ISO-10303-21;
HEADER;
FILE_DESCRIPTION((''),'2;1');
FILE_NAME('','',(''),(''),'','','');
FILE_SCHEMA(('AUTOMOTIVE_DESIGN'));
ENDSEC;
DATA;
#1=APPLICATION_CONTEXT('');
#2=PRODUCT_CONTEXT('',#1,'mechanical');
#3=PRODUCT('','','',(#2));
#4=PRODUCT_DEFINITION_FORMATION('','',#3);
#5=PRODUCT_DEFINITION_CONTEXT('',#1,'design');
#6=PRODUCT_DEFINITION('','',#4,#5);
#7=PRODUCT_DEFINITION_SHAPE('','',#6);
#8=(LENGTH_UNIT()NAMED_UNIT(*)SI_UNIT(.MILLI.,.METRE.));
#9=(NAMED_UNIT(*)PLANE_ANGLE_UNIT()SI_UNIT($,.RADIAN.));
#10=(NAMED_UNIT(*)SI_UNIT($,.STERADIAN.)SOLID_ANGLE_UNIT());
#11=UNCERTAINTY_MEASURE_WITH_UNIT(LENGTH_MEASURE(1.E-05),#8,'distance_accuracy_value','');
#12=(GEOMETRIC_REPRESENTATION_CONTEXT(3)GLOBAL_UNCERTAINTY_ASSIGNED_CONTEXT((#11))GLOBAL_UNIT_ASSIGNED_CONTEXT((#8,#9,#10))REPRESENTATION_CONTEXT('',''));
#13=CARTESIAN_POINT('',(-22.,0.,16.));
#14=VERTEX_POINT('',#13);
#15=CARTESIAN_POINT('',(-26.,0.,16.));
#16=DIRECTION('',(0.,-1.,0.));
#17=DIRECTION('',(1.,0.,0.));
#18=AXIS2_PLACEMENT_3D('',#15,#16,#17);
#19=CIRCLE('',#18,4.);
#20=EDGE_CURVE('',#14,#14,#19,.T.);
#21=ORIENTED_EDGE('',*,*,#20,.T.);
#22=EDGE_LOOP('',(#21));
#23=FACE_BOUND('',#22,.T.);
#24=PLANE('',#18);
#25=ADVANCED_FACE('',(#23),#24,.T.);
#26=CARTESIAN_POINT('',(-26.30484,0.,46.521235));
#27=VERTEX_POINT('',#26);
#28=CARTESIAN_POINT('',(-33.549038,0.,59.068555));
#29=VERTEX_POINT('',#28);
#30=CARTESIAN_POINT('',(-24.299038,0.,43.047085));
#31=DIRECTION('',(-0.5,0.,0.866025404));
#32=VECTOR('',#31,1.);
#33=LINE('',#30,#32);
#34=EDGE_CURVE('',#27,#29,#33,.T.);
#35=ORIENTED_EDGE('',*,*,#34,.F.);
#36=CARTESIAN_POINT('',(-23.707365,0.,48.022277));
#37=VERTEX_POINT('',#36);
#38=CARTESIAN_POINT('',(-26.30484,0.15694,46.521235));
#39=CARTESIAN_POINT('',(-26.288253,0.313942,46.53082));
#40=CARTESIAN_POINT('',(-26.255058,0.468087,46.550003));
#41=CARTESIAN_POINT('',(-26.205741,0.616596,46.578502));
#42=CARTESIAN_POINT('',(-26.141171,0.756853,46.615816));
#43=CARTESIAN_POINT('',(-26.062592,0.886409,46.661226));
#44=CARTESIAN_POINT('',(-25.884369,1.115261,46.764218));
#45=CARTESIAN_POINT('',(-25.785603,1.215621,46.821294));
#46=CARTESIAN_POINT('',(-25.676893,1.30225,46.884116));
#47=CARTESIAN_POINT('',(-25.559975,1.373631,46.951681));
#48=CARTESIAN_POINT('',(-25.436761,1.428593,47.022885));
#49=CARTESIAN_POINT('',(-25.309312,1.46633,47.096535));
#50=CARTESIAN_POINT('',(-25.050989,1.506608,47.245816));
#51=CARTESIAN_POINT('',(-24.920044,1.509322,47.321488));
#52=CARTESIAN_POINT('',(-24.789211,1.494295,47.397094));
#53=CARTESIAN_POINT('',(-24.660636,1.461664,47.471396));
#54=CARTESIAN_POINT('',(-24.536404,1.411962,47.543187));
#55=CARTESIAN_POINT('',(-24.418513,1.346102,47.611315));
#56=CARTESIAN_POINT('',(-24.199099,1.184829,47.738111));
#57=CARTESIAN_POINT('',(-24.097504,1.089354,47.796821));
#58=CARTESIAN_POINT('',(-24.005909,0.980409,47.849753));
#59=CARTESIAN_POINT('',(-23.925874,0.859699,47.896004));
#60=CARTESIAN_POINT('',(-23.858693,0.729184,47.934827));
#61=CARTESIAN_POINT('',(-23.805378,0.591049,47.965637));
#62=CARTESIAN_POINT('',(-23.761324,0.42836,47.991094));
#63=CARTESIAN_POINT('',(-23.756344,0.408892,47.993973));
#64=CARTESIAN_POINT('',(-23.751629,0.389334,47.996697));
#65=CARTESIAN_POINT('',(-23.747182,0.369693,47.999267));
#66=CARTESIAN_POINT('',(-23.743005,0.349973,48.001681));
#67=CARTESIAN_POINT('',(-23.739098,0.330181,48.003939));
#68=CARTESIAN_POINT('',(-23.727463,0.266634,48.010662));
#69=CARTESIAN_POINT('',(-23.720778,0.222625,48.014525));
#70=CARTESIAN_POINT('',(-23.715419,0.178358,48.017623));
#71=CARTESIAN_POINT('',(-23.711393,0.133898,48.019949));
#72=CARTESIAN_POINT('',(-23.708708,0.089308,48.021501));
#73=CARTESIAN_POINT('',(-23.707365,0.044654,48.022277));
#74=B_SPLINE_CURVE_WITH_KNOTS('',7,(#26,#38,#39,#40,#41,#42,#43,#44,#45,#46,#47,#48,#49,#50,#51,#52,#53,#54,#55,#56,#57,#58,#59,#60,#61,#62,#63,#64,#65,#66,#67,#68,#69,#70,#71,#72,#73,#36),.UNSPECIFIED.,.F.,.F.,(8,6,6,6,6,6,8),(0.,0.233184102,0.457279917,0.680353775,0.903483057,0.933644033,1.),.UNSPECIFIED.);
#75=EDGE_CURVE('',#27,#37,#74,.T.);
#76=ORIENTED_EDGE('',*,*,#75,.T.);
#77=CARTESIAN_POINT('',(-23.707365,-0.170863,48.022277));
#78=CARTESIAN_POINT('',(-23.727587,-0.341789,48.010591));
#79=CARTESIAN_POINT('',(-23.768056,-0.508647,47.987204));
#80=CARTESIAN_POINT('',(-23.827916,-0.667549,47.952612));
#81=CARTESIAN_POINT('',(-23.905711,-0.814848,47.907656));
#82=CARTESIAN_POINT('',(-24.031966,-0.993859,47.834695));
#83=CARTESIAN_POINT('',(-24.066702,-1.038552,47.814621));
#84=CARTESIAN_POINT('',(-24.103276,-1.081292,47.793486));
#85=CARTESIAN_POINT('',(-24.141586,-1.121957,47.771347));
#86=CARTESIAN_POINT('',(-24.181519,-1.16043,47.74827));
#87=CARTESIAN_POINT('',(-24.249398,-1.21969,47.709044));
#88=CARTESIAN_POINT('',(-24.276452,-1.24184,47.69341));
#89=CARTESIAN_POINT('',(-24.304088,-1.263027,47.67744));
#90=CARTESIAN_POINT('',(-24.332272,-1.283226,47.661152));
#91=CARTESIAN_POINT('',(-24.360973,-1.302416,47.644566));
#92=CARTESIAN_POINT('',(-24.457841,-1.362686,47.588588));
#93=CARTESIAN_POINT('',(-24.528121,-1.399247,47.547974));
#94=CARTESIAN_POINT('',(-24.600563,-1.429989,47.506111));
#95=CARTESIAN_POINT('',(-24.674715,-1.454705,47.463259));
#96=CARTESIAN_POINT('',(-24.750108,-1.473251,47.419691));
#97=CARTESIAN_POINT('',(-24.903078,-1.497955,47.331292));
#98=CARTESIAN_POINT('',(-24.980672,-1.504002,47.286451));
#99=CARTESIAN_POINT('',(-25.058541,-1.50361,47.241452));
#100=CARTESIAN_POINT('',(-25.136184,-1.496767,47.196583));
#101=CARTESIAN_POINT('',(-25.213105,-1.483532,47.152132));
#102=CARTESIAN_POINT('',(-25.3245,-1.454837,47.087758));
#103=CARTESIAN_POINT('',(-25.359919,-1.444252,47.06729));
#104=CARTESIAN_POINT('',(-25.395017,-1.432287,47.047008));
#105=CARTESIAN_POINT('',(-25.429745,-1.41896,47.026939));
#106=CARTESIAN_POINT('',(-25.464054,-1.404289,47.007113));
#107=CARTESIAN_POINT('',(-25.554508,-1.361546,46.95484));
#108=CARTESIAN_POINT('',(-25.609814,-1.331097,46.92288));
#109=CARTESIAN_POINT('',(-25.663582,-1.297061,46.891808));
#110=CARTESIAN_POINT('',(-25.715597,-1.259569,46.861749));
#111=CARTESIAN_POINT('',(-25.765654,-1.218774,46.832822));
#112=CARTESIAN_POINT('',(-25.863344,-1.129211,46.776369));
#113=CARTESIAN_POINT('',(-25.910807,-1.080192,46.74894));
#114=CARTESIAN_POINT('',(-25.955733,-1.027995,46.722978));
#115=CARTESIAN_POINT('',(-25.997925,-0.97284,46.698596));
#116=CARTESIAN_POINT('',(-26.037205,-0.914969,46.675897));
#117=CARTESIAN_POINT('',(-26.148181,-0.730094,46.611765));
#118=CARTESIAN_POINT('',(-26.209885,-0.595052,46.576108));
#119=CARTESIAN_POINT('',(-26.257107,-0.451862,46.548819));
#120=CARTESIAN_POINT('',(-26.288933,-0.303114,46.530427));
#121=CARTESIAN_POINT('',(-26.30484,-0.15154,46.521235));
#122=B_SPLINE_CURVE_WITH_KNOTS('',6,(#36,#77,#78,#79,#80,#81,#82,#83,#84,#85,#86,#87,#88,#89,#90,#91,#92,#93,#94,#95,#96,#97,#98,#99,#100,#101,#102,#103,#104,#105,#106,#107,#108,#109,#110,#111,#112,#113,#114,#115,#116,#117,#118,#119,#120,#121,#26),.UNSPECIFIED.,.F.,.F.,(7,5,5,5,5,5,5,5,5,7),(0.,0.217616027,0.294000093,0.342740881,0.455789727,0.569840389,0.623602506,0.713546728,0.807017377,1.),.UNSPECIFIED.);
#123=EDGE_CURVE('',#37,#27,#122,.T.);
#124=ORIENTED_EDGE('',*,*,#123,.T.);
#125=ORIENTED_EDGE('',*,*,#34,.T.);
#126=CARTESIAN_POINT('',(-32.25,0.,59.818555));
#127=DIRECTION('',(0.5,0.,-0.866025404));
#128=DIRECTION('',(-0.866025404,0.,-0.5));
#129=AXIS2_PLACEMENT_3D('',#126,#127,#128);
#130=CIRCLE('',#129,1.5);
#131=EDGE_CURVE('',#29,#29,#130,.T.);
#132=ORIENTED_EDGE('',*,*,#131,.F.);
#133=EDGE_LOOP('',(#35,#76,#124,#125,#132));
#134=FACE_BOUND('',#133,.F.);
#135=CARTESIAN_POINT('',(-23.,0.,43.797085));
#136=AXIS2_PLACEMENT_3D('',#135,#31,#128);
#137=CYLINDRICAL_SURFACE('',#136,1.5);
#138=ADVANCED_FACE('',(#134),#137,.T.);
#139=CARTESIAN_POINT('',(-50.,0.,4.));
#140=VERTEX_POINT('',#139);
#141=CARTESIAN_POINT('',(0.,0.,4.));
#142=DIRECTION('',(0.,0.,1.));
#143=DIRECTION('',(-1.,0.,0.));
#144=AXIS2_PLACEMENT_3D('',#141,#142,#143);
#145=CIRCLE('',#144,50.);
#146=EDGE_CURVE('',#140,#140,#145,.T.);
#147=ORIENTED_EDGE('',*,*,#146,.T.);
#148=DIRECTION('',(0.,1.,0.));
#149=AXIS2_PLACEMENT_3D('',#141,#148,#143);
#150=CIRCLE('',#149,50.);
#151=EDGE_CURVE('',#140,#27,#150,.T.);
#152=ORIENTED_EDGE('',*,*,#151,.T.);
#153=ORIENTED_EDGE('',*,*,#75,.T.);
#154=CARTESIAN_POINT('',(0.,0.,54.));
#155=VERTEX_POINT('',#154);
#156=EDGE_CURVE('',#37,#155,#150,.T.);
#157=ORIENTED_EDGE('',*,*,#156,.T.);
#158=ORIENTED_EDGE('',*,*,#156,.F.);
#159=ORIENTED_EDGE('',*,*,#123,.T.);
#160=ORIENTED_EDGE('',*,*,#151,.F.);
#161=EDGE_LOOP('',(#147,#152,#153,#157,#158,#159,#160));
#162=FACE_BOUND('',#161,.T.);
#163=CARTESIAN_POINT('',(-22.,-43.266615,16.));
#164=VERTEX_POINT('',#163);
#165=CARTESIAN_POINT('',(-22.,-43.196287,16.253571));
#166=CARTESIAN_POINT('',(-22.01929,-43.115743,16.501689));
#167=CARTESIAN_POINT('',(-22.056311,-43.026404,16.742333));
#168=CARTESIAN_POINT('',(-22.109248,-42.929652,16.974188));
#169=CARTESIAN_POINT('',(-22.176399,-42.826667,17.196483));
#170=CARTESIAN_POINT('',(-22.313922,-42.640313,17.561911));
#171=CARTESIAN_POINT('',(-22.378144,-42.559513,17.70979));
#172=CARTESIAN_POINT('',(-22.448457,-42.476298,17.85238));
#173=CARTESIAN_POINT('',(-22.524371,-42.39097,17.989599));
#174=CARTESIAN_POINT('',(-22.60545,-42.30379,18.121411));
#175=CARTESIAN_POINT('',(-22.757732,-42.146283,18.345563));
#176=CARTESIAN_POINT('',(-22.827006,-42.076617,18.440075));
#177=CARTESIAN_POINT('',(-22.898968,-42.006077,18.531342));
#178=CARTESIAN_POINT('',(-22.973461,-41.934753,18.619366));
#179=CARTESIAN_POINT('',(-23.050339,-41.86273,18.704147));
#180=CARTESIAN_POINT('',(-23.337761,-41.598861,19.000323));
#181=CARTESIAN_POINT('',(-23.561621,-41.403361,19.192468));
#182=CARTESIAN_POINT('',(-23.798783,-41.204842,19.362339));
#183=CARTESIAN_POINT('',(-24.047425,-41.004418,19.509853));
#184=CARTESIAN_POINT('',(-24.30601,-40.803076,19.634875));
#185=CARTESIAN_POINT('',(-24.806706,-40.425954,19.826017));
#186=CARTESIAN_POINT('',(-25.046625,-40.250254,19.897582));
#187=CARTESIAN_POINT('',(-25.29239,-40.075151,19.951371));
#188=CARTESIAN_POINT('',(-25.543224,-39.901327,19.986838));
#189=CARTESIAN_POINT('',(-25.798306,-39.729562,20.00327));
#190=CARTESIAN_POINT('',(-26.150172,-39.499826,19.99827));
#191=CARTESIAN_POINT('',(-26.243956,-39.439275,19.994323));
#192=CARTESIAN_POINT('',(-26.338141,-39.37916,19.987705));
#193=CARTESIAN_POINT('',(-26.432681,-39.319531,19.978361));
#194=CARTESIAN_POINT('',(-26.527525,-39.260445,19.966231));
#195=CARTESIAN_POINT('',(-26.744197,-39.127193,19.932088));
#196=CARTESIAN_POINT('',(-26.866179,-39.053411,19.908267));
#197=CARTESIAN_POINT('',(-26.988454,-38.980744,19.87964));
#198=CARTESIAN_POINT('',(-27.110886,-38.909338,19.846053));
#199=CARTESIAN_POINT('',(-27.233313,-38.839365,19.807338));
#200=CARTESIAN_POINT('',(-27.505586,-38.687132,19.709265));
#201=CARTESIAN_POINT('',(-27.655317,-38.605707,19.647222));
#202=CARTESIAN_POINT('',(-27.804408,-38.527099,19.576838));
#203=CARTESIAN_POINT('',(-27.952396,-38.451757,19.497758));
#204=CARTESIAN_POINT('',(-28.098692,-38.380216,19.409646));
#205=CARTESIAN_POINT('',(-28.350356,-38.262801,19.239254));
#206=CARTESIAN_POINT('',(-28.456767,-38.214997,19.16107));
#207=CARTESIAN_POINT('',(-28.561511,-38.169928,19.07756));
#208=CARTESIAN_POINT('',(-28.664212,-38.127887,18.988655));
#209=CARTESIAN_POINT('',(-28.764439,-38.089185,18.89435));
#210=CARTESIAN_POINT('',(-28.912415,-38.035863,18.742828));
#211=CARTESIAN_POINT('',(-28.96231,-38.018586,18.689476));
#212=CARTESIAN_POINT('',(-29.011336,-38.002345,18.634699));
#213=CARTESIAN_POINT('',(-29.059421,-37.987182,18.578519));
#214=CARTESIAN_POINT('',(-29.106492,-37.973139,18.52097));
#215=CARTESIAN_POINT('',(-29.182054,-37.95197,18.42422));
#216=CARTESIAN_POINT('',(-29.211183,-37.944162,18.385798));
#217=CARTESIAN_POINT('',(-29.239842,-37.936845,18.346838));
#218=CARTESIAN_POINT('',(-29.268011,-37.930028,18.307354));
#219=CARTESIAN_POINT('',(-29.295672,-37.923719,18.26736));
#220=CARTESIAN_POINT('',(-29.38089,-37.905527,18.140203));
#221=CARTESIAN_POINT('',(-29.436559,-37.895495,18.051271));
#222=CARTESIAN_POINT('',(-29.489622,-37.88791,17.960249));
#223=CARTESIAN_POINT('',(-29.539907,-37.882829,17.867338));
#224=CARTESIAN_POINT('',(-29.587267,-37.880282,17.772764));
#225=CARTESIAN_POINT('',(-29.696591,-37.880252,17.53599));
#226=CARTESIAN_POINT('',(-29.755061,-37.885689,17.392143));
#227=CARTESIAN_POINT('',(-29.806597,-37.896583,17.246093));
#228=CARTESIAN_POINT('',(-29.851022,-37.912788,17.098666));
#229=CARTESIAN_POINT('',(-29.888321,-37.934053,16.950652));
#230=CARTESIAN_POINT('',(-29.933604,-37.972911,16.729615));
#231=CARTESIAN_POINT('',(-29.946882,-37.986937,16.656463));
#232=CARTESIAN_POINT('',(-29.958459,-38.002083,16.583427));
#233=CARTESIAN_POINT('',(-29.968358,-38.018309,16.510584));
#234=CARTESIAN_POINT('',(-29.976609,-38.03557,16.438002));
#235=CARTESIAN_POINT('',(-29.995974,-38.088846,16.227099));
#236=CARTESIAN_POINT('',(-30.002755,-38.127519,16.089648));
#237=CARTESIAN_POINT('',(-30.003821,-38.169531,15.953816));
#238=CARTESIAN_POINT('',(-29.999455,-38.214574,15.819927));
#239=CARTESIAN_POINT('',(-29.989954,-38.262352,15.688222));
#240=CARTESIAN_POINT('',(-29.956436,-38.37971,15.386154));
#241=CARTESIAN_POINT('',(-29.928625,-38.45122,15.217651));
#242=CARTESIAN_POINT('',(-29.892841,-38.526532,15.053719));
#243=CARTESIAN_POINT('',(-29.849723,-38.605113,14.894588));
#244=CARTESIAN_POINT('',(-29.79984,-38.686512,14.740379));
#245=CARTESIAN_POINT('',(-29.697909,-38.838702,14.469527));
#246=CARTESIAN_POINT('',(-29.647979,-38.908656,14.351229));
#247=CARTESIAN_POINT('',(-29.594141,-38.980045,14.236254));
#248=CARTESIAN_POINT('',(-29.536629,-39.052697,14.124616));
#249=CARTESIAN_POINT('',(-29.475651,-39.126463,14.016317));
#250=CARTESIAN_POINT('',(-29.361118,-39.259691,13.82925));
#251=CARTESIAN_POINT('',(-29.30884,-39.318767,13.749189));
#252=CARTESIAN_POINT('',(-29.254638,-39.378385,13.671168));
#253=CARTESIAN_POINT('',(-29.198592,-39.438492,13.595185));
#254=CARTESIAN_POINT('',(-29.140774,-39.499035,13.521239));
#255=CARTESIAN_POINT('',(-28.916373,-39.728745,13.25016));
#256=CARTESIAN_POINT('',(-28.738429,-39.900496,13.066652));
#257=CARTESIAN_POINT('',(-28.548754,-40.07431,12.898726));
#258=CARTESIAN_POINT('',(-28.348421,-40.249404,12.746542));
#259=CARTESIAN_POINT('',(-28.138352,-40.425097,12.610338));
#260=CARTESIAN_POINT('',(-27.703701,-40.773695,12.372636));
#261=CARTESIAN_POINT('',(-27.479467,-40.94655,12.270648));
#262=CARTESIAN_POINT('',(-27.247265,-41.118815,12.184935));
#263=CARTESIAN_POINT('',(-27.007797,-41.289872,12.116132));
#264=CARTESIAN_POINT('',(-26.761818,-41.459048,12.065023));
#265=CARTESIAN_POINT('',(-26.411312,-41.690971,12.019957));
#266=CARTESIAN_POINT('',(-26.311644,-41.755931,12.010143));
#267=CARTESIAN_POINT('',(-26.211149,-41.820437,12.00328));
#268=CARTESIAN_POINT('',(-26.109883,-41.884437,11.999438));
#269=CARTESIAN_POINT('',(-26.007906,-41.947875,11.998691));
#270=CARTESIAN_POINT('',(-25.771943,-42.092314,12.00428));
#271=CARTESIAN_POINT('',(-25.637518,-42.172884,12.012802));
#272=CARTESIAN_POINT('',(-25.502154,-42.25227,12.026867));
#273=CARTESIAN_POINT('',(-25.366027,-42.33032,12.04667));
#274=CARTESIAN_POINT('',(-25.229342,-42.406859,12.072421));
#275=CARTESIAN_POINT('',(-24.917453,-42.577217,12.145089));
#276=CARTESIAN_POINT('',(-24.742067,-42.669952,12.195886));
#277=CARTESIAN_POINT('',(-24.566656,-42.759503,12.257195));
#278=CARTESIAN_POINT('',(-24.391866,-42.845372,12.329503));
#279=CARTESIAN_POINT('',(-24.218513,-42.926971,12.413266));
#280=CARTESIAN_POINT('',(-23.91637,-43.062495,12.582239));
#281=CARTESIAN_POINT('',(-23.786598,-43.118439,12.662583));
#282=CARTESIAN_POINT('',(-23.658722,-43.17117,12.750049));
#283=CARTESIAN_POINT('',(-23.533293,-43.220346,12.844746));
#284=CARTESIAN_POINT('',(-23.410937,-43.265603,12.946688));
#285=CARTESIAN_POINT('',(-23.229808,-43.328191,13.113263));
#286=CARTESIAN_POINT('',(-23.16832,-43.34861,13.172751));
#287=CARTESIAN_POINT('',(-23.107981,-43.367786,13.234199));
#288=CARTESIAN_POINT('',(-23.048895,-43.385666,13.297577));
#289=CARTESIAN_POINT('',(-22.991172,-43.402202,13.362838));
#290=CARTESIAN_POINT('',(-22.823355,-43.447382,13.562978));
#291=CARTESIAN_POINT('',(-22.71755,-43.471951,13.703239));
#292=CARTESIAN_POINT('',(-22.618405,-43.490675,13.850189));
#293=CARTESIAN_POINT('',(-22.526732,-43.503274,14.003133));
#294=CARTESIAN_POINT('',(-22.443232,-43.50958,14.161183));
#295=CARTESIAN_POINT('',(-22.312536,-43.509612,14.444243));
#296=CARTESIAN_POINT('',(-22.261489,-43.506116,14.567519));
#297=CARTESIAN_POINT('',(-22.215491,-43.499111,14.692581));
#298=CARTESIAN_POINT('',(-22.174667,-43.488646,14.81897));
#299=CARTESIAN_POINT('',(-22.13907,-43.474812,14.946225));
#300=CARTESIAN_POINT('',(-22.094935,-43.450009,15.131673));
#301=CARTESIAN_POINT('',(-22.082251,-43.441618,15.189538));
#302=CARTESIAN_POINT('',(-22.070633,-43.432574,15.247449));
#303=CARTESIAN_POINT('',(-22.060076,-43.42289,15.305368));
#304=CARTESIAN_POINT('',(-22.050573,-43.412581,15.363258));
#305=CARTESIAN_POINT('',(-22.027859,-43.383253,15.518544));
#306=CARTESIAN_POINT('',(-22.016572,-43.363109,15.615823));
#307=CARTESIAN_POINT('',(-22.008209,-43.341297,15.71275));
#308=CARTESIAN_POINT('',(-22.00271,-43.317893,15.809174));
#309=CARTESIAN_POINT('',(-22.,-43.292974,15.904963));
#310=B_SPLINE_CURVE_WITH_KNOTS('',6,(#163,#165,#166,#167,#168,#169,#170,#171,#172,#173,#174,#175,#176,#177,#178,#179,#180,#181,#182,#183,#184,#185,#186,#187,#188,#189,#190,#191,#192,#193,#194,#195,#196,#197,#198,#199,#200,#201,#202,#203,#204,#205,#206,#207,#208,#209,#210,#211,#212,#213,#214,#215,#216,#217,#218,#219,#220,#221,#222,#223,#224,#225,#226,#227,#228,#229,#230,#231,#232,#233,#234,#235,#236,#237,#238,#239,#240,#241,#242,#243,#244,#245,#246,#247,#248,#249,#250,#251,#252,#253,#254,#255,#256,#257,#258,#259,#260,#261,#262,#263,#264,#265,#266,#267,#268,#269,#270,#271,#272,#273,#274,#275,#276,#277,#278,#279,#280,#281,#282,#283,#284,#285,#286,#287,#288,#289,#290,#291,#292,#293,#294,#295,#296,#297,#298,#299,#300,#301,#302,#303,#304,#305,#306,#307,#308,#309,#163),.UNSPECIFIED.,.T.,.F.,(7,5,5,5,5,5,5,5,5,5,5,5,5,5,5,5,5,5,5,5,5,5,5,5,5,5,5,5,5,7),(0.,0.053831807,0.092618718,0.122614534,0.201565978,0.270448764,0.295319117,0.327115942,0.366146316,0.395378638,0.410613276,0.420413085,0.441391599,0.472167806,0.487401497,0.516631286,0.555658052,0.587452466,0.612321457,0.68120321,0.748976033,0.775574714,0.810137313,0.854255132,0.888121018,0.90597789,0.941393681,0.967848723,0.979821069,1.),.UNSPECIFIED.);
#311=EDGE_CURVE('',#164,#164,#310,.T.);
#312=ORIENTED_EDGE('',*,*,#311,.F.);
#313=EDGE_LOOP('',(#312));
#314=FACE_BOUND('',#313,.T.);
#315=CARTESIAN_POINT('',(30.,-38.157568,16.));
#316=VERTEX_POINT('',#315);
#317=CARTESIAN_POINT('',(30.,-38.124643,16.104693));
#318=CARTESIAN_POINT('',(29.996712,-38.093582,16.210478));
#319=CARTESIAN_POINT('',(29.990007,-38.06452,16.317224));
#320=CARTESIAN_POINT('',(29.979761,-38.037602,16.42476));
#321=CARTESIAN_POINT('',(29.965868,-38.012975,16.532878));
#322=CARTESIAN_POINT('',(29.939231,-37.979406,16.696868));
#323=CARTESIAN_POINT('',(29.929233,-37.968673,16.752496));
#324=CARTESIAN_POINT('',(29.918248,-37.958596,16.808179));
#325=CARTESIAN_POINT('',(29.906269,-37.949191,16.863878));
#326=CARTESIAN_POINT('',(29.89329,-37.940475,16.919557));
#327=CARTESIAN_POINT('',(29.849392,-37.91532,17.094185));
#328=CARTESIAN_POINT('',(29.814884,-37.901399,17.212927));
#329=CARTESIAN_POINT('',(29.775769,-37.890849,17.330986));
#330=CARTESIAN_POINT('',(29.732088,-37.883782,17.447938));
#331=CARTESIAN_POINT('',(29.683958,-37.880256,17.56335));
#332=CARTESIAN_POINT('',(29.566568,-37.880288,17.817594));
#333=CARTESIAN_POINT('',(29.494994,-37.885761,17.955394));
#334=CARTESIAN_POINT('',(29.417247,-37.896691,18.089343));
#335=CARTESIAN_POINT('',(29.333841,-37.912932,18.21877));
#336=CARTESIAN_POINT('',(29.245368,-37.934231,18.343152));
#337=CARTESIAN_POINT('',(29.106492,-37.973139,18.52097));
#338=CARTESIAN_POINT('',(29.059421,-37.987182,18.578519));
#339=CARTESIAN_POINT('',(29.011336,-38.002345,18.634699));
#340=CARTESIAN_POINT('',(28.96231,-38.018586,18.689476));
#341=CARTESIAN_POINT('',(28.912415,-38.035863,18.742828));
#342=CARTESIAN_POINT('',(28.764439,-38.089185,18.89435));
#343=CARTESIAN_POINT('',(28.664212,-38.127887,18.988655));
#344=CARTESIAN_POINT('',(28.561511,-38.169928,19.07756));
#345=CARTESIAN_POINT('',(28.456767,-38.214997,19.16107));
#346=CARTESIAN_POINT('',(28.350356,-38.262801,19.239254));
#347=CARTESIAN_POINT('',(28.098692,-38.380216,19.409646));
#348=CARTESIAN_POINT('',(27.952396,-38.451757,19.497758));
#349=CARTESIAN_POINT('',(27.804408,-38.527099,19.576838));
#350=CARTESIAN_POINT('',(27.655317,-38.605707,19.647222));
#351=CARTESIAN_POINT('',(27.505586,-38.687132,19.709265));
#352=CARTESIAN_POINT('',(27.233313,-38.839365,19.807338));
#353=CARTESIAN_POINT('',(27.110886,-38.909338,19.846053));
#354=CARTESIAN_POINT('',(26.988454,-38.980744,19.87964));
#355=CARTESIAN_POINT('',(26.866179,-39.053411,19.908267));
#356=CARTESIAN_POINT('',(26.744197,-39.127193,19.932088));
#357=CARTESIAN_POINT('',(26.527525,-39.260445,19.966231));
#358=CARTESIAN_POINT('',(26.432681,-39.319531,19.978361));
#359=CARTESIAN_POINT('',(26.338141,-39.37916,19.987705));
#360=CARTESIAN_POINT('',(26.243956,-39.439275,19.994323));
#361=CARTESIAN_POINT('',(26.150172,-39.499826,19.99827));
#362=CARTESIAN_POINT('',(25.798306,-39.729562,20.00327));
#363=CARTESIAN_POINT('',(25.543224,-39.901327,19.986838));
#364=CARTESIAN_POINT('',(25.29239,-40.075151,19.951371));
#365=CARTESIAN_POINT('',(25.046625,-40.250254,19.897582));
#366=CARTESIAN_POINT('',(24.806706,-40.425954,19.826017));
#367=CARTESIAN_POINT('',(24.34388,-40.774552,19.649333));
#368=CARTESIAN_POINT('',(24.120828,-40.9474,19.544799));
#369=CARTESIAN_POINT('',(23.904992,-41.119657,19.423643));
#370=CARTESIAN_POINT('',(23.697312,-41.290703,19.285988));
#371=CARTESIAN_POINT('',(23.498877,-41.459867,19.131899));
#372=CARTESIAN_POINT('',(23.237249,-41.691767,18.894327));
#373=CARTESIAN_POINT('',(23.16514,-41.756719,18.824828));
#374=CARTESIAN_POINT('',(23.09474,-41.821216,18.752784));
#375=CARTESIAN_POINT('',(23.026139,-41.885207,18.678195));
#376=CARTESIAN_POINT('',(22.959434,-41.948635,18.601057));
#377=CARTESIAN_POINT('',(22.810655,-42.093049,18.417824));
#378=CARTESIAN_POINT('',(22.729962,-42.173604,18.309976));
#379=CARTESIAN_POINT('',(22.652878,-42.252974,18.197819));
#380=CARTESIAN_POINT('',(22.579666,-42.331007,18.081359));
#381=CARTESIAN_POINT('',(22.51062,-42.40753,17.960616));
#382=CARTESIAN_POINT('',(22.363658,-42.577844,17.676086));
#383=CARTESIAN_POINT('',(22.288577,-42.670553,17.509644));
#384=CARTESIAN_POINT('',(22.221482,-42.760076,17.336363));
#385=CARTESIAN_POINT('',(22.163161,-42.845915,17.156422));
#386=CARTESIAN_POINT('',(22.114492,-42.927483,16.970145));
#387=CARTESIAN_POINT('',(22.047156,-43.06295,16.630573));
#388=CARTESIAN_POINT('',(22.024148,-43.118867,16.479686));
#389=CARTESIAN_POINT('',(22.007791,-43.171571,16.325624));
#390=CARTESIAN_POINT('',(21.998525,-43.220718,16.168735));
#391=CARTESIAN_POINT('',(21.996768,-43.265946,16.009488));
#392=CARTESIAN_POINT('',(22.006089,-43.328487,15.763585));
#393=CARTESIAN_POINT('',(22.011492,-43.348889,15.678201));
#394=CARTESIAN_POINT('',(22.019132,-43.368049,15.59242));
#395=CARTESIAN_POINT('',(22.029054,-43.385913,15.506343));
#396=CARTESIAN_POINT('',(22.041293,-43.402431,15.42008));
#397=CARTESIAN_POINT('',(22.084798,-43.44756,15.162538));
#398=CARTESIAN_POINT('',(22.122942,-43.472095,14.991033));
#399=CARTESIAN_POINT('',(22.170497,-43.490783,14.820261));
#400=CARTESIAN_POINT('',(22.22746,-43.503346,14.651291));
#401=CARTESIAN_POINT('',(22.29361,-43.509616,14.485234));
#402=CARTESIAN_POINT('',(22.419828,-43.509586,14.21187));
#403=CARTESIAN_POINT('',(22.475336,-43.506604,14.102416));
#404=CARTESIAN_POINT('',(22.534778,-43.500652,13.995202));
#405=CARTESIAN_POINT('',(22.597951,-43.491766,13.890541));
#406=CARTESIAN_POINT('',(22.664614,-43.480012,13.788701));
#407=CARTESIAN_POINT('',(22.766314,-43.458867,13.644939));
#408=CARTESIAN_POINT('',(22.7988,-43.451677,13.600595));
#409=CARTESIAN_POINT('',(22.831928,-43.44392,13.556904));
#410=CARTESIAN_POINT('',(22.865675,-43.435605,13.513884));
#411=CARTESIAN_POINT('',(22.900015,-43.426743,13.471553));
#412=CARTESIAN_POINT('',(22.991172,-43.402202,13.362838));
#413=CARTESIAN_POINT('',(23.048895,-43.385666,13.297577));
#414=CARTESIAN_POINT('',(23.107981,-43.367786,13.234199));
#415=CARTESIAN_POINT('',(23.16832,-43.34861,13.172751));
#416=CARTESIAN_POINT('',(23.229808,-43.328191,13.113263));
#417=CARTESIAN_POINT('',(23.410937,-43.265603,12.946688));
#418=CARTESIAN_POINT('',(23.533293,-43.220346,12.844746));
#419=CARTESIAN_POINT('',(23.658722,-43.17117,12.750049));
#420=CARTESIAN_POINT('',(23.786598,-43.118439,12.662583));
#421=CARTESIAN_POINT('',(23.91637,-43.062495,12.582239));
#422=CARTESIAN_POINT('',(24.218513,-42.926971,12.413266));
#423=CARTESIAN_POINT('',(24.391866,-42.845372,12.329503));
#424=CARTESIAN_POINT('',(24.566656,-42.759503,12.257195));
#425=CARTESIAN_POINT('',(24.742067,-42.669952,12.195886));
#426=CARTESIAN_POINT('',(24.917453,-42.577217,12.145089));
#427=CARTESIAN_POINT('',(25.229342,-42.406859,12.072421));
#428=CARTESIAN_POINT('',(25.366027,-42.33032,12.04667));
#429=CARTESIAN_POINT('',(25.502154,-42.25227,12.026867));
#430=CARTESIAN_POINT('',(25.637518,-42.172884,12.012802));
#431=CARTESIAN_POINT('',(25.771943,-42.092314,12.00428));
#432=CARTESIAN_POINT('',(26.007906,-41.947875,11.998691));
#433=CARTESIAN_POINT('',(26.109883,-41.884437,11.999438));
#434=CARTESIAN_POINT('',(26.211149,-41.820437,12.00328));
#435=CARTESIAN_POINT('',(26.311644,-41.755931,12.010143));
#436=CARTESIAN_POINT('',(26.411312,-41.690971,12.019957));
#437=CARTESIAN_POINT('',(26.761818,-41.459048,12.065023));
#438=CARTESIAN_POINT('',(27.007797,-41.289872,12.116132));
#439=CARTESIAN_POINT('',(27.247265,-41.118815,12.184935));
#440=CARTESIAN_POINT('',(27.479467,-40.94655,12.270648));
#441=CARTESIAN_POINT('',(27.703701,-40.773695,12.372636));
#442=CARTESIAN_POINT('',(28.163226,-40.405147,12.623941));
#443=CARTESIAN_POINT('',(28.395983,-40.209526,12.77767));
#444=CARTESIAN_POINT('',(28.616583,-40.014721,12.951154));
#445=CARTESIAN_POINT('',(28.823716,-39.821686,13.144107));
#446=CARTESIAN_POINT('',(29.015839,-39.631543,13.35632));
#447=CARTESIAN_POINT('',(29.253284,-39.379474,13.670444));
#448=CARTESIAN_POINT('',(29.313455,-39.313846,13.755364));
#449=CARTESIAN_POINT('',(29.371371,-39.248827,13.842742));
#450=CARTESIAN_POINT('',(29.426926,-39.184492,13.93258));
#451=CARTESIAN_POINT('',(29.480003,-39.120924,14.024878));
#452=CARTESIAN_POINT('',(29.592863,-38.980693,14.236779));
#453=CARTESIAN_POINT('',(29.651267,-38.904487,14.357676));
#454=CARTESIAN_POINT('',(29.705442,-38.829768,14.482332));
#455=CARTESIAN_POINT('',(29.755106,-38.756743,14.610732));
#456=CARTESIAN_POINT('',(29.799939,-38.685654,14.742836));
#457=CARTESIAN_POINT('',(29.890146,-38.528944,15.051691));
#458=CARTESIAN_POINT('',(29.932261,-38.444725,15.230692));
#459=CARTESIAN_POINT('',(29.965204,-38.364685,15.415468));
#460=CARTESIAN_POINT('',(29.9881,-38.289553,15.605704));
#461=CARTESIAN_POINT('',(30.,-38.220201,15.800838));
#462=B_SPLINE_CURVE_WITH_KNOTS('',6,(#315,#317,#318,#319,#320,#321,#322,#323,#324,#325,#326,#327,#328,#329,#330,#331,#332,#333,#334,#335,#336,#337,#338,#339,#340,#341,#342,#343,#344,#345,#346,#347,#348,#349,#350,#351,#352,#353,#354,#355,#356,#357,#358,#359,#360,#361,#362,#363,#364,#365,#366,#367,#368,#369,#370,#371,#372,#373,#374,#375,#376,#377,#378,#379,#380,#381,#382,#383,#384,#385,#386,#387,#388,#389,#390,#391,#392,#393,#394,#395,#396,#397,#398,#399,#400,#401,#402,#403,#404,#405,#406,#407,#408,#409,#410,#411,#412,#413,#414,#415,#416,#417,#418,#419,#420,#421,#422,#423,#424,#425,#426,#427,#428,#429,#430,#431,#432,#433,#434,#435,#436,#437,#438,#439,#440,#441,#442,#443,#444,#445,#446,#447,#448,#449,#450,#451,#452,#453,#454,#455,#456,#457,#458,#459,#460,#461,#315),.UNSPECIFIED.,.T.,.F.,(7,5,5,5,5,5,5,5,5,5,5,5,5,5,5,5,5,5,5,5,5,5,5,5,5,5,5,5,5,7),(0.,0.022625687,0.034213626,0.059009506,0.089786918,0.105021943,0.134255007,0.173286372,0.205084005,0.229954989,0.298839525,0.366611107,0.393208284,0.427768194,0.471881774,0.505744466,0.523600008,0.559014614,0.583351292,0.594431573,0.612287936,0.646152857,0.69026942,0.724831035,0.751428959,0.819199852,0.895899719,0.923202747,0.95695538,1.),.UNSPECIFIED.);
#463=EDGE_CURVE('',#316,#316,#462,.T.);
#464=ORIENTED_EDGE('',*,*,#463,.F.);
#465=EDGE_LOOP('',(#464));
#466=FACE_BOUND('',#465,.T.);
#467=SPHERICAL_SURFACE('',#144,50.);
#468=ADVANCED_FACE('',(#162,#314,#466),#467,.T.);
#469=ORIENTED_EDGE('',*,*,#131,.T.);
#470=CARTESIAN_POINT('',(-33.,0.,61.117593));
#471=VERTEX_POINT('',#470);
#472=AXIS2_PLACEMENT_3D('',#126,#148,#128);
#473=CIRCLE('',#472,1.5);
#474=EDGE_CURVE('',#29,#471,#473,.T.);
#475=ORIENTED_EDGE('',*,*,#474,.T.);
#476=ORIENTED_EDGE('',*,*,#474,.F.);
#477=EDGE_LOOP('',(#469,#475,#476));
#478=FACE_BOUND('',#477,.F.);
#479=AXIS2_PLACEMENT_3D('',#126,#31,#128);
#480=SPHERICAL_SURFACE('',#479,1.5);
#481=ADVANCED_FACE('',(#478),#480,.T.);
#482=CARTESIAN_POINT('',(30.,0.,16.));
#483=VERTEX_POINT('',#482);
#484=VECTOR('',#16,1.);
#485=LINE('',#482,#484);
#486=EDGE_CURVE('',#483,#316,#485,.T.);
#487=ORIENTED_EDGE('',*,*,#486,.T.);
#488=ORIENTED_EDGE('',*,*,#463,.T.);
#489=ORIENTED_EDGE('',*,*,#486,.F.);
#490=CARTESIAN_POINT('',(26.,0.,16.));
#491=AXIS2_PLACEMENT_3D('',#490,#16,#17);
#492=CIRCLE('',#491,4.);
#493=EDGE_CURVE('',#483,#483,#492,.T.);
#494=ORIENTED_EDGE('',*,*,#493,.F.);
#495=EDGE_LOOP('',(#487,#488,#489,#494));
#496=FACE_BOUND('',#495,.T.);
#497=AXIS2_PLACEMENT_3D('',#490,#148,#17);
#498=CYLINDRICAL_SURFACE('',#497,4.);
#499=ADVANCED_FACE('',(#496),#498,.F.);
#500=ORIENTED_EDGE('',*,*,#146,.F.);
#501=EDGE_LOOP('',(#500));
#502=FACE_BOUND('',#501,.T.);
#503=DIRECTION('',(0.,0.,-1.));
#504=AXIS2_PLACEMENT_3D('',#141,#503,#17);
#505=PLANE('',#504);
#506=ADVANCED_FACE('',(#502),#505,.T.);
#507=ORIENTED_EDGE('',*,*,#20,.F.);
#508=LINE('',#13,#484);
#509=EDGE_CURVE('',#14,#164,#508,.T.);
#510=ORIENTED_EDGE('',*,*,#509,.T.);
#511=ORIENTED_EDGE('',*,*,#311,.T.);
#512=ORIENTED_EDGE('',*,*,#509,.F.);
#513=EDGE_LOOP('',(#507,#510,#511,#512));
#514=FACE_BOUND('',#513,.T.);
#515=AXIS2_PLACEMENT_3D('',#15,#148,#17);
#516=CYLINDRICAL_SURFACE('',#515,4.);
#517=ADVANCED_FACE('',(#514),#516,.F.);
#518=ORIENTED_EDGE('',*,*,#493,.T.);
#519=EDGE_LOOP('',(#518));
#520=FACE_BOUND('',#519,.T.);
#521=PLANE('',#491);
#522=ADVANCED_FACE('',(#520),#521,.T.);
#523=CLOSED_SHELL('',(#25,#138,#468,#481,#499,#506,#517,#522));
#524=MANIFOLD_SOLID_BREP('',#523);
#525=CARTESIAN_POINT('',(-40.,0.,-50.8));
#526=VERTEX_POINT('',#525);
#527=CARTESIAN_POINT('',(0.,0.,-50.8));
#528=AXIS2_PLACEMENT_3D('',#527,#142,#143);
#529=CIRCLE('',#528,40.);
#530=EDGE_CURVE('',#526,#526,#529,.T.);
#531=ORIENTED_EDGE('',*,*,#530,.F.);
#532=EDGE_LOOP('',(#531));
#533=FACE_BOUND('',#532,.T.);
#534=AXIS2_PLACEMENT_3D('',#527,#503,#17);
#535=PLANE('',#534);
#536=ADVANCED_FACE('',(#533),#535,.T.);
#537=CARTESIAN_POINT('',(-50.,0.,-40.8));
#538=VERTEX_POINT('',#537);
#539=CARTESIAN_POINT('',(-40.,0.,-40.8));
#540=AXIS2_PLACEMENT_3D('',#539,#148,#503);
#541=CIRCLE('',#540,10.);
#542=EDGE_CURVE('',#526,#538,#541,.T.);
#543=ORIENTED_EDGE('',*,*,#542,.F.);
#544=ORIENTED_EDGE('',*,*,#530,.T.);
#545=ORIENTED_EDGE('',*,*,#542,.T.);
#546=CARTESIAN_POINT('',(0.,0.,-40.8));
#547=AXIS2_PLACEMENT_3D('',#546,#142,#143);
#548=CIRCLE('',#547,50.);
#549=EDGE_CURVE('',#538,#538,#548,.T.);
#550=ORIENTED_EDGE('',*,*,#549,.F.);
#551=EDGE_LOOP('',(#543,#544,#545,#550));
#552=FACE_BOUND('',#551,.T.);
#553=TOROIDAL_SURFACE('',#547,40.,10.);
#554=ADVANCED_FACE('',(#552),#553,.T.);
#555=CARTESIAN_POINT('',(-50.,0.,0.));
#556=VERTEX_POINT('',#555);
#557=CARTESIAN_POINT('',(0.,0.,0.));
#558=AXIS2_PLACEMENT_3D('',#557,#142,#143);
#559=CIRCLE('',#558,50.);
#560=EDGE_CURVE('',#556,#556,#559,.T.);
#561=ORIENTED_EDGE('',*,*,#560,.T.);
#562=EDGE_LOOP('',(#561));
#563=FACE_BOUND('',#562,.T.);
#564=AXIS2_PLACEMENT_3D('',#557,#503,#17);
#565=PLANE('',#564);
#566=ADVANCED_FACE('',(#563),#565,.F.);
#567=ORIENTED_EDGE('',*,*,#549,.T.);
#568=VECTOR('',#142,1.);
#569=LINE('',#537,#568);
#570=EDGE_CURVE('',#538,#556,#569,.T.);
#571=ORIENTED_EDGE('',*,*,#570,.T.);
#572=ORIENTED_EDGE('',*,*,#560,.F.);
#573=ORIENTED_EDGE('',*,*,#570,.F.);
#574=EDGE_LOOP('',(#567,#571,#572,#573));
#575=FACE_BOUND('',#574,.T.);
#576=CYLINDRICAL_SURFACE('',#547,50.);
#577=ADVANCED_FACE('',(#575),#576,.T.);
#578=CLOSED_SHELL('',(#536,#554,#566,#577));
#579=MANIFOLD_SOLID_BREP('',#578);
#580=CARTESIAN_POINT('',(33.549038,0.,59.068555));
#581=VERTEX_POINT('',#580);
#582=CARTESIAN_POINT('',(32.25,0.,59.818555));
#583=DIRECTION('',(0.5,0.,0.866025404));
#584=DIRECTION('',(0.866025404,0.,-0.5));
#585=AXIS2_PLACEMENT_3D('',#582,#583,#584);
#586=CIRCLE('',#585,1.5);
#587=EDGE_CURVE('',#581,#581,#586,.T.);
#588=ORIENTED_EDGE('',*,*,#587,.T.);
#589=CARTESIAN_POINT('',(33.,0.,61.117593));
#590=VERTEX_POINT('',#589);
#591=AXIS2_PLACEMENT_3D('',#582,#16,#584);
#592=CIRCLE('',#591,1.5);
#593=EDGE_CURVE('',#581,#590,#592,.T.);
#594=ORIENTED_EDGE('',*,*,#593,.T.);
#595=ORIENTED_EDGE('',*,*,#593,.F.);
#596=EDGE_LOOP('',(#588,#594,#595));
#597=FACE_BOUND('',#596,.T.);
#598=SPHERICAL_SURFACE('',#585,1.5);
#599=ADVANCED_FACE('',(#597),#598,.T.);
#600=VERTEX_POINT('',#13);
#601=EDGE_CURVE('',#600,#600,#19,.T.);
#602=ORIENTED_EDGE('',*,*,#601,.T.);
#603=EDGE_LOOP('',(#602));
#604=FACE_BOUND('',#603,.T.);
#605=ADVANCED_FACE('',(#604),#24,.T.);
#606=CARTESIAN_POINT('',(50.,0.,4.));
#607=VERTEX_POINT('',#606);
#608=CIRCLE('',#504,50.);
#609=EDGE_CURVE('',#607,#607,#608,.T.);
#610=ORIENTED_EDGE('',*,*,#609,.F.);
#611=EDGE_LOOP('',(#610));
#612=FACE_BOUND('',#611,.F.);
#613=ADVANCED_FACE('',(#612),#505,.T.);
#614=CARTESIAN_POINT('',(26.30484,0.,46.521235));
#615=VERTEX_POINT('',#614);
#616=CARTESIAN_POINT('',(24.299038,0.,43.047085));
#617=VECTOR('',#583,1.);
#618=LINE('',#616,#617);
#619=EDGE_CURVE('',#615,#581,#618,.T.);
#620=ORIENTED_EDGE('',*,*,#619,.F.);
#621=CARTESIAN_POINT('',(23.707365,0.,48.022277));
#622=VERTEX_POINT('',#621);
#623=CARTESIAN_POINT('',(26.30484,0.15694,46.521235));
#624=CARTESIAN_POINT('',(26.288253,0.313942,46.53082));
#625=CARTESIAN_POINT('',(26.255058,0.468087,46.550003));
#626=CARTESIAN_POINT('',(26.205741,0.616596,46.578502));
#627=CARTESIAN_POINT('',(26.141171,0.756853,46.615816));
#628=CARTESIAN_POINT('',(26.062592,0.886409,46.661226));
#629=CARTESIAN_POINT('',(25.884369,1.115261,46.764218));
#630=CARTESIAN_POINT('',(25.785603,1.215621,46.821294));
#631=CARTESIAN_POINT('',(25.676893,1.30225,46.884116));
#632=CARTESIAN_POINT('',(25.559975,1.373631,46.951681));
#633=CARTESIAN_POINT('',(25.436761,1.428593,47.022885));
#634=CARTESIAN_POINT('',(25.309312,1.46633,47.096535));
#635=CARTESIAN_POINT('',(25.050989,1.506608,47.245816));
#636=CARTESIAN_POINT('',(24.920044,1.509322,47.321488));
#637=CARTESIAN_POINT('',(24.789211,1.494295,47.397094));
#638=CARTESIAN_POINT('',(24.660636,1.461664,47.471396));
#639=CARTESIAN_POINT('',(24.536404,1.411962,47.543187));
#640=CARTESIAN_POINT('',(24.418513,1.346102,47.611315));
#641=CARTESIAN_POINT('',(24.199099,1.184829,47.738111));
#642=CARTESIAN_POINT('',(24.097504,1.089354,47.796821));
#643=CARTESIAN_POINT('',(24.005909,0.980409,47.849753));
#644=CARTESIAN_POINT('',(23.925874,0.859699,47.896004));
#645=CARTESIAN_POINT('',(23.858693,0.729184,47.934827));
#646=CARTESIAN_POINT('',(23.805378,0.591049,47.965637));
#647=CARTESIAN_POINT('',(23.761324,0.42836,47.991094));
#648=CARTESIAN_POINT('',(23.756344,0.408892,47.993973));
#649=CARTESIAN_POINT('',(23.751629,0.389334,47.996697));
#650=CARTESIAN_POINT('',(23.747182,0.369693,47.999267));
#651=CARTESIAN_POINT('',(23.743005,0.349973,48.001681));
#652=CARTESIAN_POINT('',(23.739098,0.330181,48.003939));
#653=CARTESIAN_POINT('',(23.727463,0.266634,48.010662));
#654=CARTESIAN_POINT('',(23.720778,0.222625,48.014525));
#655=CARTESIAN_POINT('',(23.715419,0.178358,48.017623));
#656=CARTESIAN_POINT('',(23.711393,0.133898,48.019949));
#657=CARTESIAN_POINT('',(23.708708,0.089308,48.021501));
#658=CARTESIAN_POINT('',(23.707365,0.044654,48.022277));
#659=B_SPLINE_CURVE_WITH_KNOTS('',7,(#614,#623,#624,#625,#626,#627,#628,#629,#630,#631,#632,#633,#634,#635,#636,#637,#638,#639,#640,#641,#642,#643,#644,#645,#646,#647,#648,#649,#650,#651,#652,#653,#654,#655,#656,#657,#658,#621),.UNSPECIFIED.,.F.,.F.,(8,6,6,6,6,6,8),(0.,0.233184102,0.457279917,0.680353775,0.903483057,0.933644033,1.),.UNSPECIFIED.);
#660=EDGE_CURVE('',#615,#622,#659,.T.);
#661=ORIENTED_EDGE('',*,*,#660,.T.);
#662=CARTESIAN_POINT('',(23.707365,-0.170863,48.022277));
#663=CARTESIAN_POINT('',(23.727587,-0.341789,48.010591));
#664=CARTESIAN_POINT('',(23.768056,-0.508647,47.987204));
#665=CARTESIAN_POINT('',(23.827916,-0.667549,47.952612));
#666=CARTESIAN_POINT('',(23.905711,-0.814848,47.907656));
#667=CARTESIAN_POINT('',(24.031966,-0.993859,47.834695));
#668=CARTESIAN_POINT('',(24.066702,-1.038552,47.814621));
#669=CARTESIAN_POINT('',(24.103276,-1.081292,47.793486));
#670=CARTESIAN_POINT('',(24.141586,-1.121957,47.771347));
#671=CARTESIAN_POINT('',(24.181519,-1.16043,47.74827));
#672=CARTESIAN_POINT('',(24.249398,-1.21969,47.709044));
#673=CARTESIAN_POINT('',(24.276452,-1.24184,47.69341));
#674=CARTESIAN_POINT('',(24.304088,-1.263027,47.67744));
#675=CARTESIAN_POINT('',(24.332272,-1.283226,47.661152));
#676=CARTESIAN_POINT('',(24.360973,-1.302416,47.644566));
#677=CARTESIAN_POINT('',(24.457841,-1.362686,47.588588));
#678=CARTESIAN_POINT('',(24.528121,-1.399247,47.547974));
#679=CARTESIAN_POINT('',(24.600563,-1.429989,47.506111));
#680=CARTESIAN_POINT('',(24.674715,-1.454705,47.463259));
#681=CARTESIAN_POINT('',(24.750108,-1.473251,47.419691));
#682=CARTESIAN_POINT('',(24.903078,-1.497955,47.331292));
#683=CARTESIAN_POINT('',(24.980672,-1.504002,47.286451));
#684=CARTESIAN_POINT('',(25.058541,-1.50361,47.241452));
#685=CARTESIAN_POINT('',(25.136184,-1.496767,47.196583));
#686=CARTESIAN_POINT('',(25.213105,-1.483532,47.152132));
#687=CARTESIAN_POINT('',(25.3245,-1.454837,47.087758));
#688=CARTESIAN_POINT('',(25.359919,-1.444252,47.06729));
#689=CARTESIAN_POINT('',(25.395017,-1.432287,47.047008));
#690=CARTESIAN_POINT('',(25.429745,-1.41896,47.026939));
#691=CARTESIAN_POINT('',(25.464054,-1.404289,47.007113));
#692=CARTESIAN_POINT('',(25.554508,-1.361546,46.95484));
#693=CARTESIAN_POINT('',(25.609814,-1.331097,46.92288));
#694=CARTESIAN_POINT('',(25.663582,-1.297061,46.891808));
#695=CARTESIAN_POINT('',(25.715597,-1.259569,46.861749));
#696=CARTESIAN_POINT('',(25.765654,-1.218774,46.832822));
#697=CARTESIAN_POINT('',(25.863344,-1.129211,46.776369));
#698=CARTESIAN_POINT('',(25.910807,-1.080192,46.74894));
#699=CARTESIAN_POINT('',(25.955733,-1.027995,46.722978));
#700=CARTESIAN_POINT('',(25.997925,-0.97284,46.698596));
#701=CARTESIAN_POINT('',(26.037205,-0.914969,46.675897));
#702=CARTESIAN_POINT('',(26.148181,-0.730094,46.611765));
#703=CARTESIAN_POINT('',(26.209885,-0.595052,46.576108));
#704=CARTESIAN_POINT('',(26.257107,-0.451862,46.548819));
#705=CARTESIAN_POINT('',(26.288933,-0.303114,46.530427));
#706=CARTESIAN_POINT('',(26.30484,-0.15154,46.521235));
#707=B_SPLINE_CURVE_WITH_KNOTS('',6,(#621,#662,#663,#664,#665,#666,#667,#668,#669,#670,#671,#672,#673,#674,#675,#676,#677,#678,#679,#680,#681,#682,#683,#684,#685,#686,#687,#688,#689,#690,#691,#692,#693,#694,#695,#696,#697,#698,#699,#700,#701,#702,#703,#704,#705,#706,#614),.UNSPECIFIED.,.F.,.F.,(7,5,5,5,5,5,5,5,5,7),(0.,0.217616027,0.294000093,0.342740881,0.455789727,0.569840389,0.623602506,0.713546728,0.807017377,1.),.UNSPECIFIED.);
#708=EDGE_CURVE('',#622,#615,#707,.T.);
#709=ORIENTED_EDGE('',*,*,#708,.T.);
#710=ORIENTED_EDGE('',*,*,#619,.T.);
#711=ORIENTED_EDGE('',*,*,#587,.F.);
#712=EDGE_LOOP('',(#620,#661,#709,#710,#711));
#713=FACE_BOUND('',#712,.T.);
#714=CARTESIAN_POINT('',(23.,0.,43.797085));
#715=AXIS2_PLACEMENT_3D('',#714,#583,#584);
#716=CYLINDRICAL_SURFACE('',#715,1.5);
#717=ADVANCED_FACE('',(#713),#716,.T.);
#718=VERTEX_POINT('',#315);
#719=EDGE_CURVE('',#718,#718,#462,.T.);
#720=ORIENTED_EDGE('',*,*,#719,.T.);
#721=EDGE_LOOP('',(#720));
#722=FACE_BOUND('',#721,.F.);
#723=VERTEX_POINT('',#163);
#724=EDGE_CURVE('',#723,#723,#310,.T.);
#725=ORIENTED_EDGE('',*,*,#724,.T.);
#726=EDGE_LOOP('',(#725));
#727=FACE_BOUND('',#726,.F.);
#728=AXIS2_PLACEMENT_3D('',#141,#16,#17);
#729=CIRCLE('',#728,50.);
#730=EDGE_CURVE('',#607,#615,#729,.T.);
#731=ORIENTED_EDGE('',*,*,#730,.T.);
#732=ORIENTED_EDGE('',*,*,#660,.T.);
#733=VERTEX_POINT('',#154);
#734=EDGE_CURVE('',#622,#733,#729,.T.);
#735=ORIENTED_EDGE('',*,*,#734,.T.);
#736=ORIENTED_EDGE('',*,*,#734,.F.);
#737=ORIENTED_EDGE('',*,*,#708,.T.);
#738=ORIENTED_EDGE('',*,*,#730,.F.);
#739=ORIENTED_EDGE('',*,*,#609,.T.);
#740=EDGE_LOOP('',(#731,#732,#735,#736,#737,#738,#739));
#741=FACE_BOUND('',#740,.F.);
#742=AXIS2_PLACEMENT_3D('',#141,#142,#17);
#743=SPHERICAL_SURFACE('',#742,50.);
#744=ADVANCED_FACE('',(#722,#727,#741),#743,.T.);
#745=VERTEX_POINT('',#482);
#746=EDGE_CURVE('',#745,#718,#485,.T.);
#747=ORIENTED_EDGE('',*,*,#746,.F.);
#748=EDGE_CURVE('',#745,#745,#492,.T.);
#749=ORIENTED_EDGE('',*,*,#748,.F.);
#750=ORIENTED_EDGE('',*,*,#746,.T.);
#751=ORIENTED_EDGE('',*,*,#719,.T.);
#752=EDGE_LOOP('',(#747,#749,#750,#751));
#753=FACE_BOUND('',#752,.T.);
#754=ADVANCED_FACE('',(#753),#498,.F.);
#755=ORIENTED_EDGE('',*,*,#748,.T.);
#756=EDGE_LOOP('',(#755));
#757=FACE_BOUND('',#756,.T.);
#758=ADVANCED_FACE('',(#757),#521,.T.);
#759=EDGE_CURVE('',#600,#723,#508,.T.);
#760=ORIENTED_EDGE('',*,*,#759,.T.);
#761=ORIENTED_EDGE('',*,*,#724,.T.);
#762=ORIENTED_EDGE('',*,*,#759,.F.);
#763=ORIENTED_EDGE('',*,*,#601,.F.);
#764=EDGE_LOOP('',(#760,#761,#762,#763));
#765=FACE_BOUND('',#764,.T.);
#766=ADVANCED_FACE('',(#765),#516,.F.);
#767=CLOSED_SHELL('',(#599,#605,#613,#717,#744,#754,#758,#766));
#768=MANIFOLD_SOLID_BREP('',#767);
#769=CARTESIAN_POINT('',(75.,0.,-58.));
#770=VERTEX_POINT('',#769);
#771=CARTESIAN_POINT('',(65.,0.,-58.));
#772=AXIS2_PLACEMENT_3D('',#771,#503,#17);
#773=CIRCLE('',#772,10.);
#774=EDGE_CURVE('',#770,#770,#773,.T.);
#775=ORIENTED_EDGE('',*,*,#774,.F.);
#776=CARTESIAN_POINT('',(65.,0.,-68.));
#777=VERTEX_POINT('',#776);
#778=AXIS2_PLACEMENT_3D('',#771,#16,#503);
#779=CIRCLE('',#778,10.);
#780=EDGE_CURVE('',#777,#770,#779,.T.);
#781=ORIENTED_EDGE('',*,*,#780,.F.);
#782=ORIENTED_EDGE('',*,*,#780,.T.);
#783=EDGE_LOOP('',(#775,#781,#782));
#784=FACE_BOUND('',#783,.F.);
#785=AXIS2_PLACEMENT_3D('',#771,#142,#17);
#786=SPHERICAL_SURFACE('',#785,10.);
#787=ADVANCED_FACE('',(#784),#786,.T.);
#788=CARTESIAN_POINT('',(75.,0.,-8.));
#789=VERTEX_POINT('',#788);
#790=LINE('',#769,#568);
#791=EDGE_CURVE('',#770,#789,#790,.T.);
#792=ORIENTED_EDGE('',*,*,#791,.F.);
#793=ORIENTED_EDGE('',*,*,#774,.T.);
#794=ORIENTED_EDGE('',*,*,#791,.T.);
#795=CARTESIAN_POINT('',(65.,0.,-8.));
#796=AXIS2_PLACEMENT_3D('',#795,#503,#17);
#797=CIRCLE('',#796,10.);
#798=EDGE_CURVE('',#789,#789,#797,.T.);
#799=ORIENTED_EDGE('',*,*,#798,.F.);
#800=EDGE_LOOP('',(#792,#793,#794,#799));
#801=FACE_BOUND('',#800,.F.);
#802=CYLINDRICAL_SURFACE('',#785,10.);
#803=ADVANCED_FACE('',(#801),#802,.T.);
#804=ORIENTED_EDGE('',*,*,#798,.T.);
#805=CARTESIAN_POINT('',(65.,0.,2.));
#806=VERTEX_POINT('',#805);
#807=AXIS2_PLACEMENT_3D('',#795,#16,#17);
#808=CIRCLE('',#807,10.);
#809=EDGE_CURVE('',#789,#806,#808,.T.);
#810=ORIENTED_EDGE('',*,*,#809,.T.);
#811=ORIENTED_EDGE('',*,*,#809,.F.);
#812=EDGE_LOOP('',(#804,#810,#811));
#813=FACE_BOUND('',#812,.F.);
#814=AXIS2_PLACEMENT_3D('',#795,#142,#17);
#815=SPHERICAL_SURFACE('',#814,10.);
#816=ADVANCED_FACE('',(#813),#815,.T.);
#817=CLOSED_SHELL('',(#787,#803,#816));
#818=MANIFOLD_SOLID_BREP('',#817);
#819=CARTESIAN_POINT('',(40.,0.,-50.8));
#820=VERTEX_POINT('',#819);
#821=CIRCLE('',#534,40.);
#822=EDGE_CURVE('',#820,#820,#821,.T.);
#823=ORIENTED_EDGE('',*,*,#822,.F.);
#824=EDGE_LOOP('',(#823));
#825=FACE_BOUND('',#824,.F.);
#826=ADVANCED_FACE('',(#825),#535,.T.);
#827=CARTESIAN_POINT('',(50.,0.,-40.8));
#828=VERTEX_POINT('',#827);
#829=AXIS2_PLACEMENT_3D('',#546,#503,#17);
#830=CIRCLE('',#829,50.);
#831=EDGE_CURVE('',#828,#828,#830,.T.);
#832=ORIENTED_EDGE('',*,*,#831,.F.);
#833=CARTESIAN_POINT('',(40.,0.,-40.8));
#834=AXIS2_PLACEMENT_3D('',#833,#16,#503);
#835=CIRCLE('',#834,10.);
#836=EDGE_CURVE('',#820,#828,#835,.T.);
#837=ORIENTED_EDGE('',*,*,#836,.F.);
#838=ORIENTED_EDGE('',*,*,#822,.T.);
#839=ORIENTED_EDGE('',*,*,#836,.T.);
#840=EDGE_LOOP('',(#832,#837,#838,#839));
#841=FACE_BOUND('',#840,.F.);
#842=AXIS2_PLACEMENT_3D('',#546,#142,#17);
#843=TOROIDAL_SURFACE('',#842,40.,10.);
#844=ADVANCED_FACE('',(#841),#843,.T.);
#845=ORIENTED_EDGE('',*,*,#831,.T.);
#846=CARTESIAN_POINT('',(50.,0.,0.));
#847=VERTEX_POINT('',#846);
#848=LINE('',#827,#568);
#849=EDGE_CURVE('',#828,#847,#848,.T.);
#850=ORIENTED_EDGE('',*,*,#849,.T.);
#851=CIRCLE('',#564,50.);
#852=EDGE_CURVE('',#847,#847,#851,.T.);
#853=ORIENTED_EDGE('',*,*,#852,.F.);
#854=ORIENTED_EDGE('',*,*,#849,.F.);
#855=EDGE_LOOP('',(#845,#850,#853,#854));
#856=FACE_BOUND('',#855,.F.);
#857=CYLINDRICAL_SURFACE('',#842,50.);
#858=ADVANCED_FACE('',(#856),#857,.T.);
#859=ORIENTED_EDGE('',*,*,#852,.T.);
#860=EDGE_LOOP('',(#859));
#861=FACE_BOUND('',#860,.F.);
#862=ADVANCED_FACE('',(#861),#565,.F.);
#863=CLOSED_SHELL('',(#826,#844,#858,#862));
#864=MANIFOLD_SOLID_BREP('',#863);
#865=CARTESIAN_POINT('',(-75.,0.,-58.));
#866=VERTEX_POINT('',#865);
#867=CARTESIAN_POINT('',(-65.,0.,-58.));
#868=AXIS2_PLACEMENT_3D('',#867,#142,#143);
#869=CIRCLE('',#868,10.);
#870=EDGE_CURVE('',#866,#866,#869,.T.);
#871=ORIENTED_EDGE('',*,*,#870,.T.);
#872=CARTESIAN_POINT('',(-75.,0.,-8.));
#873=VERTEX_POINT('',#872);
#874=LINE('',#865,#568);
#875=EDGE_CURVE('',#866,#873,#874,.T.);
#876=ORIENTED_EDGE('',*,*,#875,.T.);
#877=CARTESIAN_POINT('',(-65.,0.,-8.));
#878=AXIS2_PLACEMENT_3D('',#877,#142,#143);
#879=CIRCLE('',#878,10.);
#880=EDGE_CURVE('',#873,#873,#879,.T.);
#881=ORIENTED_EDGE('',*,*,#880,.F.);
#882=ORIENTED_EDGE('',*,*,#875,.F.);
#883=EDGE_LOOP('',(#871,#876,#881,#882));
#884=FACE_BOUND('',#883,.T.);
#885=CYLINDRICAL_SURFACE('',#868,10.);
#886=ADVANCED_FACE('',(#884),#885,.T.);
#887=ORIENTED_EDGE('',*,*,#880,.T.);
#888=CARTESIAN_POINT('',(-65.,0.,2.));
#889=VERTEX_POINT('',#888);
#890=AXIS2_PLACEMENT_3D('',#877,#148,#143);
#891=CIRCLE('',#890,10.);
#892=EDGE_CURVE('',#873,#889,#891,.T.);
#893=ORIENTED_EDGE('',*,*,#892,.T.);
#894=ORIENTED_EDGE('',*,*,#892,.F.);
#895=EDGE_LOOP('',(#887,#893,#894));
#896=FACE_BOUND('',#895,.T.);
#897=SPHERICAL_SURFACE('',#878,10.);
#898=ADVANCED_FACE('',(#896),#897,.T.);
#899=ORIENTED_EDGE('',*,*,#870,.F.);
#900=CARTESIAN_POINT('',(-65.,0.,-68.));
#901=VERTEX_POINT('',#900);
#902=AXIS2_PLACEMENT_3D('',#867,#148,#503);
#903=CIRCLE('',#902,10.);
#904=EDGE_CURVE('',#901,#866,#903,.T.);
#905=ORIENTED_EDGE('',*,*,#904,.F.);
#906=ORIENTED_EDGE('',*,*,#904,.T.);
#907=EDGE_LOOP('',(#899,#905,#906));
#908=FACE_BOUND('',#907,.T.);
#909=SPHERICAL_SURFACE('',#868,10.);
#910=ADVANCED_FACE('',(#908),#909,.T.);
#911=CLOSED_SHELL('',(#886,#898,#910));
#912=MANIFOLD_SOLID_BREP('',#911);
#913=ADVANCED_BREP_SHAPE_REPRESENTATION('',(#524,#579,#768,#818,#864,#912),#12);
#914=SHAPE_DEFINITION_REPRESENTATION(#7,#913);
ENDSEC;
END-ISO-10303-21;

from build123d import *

# Parameters (mm, degrees)
F7_R     = 4
F8_DEPTH = 60


with BuildPart() as f1:
    # F0 (on Front) → F1 (revolve)
    with BuildSketch(Plane.XZ):
        with BuildLine():
            Line((0, 54), (0, 4))
            Line((0, 4), (50, 4))
            ThreePointArc((50, 4), (35.3553390593, 39.3553390593), (0, 54))
        make_face()
    revolve(axis=Axis((0, 0, -24.6936754167), (0, 0, -1)))

    # F4 (on Front) → F5 (revolve)
    with BuildSketch(Plane.XZ):
        with BuildLine():
            Line((33, 61.1175927162), (23, 43.7970846405))
            Line((23, 43.7970846405), (24.2990381057, 43.0470846405))
            Line((24.2990381057, 43.0470846405), (33.5490381057, 59.0685546105))
            ThreePointArc((33.5490381057, 59.0685546105), (33.6988887394, 60.2067831781), (33, 61.1175927162))
        make_face()
    revolve(axis=Axis((8.1424876619, 0, 18.0631183967), (0.5, 0, 0.8660254038)))


with BuildPart() as f1b:
    # F0 (on Front) → F1, piece 2 (revolve)
    with BuildSketch(Plane.XZ):
        with BuildLine():
            Line((50, 0), (0, 0))
            Line((0, 0), (0, -50.8))
            Line((0, -50.8), (40, -50.8))
            ThreePointArc((40, -50.8), (47.0710678119, -47.8710678119), (50, -40.8))
            Line((50, -40.8), (50, 0))
        make_face()
    revolve(axis=Axis((0, 0, -24.6936754167), (0, 0, -1)))


with BuildPart() as f3:
    # F2 (on Front) → F3 (revolve)
    with BuildSketch(Plane.XZ):
        with BuildLine():
            Line((65, 2), (65, -68))
            ThreePointArc((65, -68), (72.0710678119, -65.0710678119), (75, -58))
            Line((75, -58), (75, -8))
            ThreePointArc((75, -8), (72.0710678119, -0.9289321881), (65, 2))
        make_face()
    revolve(axis=Axis((65, 0, -36.7332571186), (0, 0, -1)))


with BuildPart() as f6_1:
    # F6: instance of F3
    add(f3.part.mirror(Plane.YZ))


with BuildPart() as f6_2:
    # F6: instance of F1b
    add(f1b.part.mirror(Plane.YZ))


with BuildPart() as f6_3:
    # F6: instance of F1
    add(f1.part.mirror(Plane.YZ))


with BuildPart() as f8_tool:
    # F7 (on Front) → F8 (new body)
    with BuildSketch(Plane.XZ):
        with Locations((26, 16)):
            Circle(F7_R)
        with Locations((-26, 16)):
            Circle(F7_R)
    extrude(amount=F8_DEPTH)


with BuildPart() as f1_1:
    add(f1.part)

    # F8: cut by f8_tool
    add(f8_tool.part, mode=Mode.SUBTRACT)


with BuildPart() as f6_3_1:
    add(f6_3.part)

    # F8: cut by f8_tool
    add(f8_tool.part, mode=Mode.SUBTRACT)


solid = Compound([f1b.part, f3.part, f6_1.part, f6_2.part, f1_1.part, f6_3_1.part])
